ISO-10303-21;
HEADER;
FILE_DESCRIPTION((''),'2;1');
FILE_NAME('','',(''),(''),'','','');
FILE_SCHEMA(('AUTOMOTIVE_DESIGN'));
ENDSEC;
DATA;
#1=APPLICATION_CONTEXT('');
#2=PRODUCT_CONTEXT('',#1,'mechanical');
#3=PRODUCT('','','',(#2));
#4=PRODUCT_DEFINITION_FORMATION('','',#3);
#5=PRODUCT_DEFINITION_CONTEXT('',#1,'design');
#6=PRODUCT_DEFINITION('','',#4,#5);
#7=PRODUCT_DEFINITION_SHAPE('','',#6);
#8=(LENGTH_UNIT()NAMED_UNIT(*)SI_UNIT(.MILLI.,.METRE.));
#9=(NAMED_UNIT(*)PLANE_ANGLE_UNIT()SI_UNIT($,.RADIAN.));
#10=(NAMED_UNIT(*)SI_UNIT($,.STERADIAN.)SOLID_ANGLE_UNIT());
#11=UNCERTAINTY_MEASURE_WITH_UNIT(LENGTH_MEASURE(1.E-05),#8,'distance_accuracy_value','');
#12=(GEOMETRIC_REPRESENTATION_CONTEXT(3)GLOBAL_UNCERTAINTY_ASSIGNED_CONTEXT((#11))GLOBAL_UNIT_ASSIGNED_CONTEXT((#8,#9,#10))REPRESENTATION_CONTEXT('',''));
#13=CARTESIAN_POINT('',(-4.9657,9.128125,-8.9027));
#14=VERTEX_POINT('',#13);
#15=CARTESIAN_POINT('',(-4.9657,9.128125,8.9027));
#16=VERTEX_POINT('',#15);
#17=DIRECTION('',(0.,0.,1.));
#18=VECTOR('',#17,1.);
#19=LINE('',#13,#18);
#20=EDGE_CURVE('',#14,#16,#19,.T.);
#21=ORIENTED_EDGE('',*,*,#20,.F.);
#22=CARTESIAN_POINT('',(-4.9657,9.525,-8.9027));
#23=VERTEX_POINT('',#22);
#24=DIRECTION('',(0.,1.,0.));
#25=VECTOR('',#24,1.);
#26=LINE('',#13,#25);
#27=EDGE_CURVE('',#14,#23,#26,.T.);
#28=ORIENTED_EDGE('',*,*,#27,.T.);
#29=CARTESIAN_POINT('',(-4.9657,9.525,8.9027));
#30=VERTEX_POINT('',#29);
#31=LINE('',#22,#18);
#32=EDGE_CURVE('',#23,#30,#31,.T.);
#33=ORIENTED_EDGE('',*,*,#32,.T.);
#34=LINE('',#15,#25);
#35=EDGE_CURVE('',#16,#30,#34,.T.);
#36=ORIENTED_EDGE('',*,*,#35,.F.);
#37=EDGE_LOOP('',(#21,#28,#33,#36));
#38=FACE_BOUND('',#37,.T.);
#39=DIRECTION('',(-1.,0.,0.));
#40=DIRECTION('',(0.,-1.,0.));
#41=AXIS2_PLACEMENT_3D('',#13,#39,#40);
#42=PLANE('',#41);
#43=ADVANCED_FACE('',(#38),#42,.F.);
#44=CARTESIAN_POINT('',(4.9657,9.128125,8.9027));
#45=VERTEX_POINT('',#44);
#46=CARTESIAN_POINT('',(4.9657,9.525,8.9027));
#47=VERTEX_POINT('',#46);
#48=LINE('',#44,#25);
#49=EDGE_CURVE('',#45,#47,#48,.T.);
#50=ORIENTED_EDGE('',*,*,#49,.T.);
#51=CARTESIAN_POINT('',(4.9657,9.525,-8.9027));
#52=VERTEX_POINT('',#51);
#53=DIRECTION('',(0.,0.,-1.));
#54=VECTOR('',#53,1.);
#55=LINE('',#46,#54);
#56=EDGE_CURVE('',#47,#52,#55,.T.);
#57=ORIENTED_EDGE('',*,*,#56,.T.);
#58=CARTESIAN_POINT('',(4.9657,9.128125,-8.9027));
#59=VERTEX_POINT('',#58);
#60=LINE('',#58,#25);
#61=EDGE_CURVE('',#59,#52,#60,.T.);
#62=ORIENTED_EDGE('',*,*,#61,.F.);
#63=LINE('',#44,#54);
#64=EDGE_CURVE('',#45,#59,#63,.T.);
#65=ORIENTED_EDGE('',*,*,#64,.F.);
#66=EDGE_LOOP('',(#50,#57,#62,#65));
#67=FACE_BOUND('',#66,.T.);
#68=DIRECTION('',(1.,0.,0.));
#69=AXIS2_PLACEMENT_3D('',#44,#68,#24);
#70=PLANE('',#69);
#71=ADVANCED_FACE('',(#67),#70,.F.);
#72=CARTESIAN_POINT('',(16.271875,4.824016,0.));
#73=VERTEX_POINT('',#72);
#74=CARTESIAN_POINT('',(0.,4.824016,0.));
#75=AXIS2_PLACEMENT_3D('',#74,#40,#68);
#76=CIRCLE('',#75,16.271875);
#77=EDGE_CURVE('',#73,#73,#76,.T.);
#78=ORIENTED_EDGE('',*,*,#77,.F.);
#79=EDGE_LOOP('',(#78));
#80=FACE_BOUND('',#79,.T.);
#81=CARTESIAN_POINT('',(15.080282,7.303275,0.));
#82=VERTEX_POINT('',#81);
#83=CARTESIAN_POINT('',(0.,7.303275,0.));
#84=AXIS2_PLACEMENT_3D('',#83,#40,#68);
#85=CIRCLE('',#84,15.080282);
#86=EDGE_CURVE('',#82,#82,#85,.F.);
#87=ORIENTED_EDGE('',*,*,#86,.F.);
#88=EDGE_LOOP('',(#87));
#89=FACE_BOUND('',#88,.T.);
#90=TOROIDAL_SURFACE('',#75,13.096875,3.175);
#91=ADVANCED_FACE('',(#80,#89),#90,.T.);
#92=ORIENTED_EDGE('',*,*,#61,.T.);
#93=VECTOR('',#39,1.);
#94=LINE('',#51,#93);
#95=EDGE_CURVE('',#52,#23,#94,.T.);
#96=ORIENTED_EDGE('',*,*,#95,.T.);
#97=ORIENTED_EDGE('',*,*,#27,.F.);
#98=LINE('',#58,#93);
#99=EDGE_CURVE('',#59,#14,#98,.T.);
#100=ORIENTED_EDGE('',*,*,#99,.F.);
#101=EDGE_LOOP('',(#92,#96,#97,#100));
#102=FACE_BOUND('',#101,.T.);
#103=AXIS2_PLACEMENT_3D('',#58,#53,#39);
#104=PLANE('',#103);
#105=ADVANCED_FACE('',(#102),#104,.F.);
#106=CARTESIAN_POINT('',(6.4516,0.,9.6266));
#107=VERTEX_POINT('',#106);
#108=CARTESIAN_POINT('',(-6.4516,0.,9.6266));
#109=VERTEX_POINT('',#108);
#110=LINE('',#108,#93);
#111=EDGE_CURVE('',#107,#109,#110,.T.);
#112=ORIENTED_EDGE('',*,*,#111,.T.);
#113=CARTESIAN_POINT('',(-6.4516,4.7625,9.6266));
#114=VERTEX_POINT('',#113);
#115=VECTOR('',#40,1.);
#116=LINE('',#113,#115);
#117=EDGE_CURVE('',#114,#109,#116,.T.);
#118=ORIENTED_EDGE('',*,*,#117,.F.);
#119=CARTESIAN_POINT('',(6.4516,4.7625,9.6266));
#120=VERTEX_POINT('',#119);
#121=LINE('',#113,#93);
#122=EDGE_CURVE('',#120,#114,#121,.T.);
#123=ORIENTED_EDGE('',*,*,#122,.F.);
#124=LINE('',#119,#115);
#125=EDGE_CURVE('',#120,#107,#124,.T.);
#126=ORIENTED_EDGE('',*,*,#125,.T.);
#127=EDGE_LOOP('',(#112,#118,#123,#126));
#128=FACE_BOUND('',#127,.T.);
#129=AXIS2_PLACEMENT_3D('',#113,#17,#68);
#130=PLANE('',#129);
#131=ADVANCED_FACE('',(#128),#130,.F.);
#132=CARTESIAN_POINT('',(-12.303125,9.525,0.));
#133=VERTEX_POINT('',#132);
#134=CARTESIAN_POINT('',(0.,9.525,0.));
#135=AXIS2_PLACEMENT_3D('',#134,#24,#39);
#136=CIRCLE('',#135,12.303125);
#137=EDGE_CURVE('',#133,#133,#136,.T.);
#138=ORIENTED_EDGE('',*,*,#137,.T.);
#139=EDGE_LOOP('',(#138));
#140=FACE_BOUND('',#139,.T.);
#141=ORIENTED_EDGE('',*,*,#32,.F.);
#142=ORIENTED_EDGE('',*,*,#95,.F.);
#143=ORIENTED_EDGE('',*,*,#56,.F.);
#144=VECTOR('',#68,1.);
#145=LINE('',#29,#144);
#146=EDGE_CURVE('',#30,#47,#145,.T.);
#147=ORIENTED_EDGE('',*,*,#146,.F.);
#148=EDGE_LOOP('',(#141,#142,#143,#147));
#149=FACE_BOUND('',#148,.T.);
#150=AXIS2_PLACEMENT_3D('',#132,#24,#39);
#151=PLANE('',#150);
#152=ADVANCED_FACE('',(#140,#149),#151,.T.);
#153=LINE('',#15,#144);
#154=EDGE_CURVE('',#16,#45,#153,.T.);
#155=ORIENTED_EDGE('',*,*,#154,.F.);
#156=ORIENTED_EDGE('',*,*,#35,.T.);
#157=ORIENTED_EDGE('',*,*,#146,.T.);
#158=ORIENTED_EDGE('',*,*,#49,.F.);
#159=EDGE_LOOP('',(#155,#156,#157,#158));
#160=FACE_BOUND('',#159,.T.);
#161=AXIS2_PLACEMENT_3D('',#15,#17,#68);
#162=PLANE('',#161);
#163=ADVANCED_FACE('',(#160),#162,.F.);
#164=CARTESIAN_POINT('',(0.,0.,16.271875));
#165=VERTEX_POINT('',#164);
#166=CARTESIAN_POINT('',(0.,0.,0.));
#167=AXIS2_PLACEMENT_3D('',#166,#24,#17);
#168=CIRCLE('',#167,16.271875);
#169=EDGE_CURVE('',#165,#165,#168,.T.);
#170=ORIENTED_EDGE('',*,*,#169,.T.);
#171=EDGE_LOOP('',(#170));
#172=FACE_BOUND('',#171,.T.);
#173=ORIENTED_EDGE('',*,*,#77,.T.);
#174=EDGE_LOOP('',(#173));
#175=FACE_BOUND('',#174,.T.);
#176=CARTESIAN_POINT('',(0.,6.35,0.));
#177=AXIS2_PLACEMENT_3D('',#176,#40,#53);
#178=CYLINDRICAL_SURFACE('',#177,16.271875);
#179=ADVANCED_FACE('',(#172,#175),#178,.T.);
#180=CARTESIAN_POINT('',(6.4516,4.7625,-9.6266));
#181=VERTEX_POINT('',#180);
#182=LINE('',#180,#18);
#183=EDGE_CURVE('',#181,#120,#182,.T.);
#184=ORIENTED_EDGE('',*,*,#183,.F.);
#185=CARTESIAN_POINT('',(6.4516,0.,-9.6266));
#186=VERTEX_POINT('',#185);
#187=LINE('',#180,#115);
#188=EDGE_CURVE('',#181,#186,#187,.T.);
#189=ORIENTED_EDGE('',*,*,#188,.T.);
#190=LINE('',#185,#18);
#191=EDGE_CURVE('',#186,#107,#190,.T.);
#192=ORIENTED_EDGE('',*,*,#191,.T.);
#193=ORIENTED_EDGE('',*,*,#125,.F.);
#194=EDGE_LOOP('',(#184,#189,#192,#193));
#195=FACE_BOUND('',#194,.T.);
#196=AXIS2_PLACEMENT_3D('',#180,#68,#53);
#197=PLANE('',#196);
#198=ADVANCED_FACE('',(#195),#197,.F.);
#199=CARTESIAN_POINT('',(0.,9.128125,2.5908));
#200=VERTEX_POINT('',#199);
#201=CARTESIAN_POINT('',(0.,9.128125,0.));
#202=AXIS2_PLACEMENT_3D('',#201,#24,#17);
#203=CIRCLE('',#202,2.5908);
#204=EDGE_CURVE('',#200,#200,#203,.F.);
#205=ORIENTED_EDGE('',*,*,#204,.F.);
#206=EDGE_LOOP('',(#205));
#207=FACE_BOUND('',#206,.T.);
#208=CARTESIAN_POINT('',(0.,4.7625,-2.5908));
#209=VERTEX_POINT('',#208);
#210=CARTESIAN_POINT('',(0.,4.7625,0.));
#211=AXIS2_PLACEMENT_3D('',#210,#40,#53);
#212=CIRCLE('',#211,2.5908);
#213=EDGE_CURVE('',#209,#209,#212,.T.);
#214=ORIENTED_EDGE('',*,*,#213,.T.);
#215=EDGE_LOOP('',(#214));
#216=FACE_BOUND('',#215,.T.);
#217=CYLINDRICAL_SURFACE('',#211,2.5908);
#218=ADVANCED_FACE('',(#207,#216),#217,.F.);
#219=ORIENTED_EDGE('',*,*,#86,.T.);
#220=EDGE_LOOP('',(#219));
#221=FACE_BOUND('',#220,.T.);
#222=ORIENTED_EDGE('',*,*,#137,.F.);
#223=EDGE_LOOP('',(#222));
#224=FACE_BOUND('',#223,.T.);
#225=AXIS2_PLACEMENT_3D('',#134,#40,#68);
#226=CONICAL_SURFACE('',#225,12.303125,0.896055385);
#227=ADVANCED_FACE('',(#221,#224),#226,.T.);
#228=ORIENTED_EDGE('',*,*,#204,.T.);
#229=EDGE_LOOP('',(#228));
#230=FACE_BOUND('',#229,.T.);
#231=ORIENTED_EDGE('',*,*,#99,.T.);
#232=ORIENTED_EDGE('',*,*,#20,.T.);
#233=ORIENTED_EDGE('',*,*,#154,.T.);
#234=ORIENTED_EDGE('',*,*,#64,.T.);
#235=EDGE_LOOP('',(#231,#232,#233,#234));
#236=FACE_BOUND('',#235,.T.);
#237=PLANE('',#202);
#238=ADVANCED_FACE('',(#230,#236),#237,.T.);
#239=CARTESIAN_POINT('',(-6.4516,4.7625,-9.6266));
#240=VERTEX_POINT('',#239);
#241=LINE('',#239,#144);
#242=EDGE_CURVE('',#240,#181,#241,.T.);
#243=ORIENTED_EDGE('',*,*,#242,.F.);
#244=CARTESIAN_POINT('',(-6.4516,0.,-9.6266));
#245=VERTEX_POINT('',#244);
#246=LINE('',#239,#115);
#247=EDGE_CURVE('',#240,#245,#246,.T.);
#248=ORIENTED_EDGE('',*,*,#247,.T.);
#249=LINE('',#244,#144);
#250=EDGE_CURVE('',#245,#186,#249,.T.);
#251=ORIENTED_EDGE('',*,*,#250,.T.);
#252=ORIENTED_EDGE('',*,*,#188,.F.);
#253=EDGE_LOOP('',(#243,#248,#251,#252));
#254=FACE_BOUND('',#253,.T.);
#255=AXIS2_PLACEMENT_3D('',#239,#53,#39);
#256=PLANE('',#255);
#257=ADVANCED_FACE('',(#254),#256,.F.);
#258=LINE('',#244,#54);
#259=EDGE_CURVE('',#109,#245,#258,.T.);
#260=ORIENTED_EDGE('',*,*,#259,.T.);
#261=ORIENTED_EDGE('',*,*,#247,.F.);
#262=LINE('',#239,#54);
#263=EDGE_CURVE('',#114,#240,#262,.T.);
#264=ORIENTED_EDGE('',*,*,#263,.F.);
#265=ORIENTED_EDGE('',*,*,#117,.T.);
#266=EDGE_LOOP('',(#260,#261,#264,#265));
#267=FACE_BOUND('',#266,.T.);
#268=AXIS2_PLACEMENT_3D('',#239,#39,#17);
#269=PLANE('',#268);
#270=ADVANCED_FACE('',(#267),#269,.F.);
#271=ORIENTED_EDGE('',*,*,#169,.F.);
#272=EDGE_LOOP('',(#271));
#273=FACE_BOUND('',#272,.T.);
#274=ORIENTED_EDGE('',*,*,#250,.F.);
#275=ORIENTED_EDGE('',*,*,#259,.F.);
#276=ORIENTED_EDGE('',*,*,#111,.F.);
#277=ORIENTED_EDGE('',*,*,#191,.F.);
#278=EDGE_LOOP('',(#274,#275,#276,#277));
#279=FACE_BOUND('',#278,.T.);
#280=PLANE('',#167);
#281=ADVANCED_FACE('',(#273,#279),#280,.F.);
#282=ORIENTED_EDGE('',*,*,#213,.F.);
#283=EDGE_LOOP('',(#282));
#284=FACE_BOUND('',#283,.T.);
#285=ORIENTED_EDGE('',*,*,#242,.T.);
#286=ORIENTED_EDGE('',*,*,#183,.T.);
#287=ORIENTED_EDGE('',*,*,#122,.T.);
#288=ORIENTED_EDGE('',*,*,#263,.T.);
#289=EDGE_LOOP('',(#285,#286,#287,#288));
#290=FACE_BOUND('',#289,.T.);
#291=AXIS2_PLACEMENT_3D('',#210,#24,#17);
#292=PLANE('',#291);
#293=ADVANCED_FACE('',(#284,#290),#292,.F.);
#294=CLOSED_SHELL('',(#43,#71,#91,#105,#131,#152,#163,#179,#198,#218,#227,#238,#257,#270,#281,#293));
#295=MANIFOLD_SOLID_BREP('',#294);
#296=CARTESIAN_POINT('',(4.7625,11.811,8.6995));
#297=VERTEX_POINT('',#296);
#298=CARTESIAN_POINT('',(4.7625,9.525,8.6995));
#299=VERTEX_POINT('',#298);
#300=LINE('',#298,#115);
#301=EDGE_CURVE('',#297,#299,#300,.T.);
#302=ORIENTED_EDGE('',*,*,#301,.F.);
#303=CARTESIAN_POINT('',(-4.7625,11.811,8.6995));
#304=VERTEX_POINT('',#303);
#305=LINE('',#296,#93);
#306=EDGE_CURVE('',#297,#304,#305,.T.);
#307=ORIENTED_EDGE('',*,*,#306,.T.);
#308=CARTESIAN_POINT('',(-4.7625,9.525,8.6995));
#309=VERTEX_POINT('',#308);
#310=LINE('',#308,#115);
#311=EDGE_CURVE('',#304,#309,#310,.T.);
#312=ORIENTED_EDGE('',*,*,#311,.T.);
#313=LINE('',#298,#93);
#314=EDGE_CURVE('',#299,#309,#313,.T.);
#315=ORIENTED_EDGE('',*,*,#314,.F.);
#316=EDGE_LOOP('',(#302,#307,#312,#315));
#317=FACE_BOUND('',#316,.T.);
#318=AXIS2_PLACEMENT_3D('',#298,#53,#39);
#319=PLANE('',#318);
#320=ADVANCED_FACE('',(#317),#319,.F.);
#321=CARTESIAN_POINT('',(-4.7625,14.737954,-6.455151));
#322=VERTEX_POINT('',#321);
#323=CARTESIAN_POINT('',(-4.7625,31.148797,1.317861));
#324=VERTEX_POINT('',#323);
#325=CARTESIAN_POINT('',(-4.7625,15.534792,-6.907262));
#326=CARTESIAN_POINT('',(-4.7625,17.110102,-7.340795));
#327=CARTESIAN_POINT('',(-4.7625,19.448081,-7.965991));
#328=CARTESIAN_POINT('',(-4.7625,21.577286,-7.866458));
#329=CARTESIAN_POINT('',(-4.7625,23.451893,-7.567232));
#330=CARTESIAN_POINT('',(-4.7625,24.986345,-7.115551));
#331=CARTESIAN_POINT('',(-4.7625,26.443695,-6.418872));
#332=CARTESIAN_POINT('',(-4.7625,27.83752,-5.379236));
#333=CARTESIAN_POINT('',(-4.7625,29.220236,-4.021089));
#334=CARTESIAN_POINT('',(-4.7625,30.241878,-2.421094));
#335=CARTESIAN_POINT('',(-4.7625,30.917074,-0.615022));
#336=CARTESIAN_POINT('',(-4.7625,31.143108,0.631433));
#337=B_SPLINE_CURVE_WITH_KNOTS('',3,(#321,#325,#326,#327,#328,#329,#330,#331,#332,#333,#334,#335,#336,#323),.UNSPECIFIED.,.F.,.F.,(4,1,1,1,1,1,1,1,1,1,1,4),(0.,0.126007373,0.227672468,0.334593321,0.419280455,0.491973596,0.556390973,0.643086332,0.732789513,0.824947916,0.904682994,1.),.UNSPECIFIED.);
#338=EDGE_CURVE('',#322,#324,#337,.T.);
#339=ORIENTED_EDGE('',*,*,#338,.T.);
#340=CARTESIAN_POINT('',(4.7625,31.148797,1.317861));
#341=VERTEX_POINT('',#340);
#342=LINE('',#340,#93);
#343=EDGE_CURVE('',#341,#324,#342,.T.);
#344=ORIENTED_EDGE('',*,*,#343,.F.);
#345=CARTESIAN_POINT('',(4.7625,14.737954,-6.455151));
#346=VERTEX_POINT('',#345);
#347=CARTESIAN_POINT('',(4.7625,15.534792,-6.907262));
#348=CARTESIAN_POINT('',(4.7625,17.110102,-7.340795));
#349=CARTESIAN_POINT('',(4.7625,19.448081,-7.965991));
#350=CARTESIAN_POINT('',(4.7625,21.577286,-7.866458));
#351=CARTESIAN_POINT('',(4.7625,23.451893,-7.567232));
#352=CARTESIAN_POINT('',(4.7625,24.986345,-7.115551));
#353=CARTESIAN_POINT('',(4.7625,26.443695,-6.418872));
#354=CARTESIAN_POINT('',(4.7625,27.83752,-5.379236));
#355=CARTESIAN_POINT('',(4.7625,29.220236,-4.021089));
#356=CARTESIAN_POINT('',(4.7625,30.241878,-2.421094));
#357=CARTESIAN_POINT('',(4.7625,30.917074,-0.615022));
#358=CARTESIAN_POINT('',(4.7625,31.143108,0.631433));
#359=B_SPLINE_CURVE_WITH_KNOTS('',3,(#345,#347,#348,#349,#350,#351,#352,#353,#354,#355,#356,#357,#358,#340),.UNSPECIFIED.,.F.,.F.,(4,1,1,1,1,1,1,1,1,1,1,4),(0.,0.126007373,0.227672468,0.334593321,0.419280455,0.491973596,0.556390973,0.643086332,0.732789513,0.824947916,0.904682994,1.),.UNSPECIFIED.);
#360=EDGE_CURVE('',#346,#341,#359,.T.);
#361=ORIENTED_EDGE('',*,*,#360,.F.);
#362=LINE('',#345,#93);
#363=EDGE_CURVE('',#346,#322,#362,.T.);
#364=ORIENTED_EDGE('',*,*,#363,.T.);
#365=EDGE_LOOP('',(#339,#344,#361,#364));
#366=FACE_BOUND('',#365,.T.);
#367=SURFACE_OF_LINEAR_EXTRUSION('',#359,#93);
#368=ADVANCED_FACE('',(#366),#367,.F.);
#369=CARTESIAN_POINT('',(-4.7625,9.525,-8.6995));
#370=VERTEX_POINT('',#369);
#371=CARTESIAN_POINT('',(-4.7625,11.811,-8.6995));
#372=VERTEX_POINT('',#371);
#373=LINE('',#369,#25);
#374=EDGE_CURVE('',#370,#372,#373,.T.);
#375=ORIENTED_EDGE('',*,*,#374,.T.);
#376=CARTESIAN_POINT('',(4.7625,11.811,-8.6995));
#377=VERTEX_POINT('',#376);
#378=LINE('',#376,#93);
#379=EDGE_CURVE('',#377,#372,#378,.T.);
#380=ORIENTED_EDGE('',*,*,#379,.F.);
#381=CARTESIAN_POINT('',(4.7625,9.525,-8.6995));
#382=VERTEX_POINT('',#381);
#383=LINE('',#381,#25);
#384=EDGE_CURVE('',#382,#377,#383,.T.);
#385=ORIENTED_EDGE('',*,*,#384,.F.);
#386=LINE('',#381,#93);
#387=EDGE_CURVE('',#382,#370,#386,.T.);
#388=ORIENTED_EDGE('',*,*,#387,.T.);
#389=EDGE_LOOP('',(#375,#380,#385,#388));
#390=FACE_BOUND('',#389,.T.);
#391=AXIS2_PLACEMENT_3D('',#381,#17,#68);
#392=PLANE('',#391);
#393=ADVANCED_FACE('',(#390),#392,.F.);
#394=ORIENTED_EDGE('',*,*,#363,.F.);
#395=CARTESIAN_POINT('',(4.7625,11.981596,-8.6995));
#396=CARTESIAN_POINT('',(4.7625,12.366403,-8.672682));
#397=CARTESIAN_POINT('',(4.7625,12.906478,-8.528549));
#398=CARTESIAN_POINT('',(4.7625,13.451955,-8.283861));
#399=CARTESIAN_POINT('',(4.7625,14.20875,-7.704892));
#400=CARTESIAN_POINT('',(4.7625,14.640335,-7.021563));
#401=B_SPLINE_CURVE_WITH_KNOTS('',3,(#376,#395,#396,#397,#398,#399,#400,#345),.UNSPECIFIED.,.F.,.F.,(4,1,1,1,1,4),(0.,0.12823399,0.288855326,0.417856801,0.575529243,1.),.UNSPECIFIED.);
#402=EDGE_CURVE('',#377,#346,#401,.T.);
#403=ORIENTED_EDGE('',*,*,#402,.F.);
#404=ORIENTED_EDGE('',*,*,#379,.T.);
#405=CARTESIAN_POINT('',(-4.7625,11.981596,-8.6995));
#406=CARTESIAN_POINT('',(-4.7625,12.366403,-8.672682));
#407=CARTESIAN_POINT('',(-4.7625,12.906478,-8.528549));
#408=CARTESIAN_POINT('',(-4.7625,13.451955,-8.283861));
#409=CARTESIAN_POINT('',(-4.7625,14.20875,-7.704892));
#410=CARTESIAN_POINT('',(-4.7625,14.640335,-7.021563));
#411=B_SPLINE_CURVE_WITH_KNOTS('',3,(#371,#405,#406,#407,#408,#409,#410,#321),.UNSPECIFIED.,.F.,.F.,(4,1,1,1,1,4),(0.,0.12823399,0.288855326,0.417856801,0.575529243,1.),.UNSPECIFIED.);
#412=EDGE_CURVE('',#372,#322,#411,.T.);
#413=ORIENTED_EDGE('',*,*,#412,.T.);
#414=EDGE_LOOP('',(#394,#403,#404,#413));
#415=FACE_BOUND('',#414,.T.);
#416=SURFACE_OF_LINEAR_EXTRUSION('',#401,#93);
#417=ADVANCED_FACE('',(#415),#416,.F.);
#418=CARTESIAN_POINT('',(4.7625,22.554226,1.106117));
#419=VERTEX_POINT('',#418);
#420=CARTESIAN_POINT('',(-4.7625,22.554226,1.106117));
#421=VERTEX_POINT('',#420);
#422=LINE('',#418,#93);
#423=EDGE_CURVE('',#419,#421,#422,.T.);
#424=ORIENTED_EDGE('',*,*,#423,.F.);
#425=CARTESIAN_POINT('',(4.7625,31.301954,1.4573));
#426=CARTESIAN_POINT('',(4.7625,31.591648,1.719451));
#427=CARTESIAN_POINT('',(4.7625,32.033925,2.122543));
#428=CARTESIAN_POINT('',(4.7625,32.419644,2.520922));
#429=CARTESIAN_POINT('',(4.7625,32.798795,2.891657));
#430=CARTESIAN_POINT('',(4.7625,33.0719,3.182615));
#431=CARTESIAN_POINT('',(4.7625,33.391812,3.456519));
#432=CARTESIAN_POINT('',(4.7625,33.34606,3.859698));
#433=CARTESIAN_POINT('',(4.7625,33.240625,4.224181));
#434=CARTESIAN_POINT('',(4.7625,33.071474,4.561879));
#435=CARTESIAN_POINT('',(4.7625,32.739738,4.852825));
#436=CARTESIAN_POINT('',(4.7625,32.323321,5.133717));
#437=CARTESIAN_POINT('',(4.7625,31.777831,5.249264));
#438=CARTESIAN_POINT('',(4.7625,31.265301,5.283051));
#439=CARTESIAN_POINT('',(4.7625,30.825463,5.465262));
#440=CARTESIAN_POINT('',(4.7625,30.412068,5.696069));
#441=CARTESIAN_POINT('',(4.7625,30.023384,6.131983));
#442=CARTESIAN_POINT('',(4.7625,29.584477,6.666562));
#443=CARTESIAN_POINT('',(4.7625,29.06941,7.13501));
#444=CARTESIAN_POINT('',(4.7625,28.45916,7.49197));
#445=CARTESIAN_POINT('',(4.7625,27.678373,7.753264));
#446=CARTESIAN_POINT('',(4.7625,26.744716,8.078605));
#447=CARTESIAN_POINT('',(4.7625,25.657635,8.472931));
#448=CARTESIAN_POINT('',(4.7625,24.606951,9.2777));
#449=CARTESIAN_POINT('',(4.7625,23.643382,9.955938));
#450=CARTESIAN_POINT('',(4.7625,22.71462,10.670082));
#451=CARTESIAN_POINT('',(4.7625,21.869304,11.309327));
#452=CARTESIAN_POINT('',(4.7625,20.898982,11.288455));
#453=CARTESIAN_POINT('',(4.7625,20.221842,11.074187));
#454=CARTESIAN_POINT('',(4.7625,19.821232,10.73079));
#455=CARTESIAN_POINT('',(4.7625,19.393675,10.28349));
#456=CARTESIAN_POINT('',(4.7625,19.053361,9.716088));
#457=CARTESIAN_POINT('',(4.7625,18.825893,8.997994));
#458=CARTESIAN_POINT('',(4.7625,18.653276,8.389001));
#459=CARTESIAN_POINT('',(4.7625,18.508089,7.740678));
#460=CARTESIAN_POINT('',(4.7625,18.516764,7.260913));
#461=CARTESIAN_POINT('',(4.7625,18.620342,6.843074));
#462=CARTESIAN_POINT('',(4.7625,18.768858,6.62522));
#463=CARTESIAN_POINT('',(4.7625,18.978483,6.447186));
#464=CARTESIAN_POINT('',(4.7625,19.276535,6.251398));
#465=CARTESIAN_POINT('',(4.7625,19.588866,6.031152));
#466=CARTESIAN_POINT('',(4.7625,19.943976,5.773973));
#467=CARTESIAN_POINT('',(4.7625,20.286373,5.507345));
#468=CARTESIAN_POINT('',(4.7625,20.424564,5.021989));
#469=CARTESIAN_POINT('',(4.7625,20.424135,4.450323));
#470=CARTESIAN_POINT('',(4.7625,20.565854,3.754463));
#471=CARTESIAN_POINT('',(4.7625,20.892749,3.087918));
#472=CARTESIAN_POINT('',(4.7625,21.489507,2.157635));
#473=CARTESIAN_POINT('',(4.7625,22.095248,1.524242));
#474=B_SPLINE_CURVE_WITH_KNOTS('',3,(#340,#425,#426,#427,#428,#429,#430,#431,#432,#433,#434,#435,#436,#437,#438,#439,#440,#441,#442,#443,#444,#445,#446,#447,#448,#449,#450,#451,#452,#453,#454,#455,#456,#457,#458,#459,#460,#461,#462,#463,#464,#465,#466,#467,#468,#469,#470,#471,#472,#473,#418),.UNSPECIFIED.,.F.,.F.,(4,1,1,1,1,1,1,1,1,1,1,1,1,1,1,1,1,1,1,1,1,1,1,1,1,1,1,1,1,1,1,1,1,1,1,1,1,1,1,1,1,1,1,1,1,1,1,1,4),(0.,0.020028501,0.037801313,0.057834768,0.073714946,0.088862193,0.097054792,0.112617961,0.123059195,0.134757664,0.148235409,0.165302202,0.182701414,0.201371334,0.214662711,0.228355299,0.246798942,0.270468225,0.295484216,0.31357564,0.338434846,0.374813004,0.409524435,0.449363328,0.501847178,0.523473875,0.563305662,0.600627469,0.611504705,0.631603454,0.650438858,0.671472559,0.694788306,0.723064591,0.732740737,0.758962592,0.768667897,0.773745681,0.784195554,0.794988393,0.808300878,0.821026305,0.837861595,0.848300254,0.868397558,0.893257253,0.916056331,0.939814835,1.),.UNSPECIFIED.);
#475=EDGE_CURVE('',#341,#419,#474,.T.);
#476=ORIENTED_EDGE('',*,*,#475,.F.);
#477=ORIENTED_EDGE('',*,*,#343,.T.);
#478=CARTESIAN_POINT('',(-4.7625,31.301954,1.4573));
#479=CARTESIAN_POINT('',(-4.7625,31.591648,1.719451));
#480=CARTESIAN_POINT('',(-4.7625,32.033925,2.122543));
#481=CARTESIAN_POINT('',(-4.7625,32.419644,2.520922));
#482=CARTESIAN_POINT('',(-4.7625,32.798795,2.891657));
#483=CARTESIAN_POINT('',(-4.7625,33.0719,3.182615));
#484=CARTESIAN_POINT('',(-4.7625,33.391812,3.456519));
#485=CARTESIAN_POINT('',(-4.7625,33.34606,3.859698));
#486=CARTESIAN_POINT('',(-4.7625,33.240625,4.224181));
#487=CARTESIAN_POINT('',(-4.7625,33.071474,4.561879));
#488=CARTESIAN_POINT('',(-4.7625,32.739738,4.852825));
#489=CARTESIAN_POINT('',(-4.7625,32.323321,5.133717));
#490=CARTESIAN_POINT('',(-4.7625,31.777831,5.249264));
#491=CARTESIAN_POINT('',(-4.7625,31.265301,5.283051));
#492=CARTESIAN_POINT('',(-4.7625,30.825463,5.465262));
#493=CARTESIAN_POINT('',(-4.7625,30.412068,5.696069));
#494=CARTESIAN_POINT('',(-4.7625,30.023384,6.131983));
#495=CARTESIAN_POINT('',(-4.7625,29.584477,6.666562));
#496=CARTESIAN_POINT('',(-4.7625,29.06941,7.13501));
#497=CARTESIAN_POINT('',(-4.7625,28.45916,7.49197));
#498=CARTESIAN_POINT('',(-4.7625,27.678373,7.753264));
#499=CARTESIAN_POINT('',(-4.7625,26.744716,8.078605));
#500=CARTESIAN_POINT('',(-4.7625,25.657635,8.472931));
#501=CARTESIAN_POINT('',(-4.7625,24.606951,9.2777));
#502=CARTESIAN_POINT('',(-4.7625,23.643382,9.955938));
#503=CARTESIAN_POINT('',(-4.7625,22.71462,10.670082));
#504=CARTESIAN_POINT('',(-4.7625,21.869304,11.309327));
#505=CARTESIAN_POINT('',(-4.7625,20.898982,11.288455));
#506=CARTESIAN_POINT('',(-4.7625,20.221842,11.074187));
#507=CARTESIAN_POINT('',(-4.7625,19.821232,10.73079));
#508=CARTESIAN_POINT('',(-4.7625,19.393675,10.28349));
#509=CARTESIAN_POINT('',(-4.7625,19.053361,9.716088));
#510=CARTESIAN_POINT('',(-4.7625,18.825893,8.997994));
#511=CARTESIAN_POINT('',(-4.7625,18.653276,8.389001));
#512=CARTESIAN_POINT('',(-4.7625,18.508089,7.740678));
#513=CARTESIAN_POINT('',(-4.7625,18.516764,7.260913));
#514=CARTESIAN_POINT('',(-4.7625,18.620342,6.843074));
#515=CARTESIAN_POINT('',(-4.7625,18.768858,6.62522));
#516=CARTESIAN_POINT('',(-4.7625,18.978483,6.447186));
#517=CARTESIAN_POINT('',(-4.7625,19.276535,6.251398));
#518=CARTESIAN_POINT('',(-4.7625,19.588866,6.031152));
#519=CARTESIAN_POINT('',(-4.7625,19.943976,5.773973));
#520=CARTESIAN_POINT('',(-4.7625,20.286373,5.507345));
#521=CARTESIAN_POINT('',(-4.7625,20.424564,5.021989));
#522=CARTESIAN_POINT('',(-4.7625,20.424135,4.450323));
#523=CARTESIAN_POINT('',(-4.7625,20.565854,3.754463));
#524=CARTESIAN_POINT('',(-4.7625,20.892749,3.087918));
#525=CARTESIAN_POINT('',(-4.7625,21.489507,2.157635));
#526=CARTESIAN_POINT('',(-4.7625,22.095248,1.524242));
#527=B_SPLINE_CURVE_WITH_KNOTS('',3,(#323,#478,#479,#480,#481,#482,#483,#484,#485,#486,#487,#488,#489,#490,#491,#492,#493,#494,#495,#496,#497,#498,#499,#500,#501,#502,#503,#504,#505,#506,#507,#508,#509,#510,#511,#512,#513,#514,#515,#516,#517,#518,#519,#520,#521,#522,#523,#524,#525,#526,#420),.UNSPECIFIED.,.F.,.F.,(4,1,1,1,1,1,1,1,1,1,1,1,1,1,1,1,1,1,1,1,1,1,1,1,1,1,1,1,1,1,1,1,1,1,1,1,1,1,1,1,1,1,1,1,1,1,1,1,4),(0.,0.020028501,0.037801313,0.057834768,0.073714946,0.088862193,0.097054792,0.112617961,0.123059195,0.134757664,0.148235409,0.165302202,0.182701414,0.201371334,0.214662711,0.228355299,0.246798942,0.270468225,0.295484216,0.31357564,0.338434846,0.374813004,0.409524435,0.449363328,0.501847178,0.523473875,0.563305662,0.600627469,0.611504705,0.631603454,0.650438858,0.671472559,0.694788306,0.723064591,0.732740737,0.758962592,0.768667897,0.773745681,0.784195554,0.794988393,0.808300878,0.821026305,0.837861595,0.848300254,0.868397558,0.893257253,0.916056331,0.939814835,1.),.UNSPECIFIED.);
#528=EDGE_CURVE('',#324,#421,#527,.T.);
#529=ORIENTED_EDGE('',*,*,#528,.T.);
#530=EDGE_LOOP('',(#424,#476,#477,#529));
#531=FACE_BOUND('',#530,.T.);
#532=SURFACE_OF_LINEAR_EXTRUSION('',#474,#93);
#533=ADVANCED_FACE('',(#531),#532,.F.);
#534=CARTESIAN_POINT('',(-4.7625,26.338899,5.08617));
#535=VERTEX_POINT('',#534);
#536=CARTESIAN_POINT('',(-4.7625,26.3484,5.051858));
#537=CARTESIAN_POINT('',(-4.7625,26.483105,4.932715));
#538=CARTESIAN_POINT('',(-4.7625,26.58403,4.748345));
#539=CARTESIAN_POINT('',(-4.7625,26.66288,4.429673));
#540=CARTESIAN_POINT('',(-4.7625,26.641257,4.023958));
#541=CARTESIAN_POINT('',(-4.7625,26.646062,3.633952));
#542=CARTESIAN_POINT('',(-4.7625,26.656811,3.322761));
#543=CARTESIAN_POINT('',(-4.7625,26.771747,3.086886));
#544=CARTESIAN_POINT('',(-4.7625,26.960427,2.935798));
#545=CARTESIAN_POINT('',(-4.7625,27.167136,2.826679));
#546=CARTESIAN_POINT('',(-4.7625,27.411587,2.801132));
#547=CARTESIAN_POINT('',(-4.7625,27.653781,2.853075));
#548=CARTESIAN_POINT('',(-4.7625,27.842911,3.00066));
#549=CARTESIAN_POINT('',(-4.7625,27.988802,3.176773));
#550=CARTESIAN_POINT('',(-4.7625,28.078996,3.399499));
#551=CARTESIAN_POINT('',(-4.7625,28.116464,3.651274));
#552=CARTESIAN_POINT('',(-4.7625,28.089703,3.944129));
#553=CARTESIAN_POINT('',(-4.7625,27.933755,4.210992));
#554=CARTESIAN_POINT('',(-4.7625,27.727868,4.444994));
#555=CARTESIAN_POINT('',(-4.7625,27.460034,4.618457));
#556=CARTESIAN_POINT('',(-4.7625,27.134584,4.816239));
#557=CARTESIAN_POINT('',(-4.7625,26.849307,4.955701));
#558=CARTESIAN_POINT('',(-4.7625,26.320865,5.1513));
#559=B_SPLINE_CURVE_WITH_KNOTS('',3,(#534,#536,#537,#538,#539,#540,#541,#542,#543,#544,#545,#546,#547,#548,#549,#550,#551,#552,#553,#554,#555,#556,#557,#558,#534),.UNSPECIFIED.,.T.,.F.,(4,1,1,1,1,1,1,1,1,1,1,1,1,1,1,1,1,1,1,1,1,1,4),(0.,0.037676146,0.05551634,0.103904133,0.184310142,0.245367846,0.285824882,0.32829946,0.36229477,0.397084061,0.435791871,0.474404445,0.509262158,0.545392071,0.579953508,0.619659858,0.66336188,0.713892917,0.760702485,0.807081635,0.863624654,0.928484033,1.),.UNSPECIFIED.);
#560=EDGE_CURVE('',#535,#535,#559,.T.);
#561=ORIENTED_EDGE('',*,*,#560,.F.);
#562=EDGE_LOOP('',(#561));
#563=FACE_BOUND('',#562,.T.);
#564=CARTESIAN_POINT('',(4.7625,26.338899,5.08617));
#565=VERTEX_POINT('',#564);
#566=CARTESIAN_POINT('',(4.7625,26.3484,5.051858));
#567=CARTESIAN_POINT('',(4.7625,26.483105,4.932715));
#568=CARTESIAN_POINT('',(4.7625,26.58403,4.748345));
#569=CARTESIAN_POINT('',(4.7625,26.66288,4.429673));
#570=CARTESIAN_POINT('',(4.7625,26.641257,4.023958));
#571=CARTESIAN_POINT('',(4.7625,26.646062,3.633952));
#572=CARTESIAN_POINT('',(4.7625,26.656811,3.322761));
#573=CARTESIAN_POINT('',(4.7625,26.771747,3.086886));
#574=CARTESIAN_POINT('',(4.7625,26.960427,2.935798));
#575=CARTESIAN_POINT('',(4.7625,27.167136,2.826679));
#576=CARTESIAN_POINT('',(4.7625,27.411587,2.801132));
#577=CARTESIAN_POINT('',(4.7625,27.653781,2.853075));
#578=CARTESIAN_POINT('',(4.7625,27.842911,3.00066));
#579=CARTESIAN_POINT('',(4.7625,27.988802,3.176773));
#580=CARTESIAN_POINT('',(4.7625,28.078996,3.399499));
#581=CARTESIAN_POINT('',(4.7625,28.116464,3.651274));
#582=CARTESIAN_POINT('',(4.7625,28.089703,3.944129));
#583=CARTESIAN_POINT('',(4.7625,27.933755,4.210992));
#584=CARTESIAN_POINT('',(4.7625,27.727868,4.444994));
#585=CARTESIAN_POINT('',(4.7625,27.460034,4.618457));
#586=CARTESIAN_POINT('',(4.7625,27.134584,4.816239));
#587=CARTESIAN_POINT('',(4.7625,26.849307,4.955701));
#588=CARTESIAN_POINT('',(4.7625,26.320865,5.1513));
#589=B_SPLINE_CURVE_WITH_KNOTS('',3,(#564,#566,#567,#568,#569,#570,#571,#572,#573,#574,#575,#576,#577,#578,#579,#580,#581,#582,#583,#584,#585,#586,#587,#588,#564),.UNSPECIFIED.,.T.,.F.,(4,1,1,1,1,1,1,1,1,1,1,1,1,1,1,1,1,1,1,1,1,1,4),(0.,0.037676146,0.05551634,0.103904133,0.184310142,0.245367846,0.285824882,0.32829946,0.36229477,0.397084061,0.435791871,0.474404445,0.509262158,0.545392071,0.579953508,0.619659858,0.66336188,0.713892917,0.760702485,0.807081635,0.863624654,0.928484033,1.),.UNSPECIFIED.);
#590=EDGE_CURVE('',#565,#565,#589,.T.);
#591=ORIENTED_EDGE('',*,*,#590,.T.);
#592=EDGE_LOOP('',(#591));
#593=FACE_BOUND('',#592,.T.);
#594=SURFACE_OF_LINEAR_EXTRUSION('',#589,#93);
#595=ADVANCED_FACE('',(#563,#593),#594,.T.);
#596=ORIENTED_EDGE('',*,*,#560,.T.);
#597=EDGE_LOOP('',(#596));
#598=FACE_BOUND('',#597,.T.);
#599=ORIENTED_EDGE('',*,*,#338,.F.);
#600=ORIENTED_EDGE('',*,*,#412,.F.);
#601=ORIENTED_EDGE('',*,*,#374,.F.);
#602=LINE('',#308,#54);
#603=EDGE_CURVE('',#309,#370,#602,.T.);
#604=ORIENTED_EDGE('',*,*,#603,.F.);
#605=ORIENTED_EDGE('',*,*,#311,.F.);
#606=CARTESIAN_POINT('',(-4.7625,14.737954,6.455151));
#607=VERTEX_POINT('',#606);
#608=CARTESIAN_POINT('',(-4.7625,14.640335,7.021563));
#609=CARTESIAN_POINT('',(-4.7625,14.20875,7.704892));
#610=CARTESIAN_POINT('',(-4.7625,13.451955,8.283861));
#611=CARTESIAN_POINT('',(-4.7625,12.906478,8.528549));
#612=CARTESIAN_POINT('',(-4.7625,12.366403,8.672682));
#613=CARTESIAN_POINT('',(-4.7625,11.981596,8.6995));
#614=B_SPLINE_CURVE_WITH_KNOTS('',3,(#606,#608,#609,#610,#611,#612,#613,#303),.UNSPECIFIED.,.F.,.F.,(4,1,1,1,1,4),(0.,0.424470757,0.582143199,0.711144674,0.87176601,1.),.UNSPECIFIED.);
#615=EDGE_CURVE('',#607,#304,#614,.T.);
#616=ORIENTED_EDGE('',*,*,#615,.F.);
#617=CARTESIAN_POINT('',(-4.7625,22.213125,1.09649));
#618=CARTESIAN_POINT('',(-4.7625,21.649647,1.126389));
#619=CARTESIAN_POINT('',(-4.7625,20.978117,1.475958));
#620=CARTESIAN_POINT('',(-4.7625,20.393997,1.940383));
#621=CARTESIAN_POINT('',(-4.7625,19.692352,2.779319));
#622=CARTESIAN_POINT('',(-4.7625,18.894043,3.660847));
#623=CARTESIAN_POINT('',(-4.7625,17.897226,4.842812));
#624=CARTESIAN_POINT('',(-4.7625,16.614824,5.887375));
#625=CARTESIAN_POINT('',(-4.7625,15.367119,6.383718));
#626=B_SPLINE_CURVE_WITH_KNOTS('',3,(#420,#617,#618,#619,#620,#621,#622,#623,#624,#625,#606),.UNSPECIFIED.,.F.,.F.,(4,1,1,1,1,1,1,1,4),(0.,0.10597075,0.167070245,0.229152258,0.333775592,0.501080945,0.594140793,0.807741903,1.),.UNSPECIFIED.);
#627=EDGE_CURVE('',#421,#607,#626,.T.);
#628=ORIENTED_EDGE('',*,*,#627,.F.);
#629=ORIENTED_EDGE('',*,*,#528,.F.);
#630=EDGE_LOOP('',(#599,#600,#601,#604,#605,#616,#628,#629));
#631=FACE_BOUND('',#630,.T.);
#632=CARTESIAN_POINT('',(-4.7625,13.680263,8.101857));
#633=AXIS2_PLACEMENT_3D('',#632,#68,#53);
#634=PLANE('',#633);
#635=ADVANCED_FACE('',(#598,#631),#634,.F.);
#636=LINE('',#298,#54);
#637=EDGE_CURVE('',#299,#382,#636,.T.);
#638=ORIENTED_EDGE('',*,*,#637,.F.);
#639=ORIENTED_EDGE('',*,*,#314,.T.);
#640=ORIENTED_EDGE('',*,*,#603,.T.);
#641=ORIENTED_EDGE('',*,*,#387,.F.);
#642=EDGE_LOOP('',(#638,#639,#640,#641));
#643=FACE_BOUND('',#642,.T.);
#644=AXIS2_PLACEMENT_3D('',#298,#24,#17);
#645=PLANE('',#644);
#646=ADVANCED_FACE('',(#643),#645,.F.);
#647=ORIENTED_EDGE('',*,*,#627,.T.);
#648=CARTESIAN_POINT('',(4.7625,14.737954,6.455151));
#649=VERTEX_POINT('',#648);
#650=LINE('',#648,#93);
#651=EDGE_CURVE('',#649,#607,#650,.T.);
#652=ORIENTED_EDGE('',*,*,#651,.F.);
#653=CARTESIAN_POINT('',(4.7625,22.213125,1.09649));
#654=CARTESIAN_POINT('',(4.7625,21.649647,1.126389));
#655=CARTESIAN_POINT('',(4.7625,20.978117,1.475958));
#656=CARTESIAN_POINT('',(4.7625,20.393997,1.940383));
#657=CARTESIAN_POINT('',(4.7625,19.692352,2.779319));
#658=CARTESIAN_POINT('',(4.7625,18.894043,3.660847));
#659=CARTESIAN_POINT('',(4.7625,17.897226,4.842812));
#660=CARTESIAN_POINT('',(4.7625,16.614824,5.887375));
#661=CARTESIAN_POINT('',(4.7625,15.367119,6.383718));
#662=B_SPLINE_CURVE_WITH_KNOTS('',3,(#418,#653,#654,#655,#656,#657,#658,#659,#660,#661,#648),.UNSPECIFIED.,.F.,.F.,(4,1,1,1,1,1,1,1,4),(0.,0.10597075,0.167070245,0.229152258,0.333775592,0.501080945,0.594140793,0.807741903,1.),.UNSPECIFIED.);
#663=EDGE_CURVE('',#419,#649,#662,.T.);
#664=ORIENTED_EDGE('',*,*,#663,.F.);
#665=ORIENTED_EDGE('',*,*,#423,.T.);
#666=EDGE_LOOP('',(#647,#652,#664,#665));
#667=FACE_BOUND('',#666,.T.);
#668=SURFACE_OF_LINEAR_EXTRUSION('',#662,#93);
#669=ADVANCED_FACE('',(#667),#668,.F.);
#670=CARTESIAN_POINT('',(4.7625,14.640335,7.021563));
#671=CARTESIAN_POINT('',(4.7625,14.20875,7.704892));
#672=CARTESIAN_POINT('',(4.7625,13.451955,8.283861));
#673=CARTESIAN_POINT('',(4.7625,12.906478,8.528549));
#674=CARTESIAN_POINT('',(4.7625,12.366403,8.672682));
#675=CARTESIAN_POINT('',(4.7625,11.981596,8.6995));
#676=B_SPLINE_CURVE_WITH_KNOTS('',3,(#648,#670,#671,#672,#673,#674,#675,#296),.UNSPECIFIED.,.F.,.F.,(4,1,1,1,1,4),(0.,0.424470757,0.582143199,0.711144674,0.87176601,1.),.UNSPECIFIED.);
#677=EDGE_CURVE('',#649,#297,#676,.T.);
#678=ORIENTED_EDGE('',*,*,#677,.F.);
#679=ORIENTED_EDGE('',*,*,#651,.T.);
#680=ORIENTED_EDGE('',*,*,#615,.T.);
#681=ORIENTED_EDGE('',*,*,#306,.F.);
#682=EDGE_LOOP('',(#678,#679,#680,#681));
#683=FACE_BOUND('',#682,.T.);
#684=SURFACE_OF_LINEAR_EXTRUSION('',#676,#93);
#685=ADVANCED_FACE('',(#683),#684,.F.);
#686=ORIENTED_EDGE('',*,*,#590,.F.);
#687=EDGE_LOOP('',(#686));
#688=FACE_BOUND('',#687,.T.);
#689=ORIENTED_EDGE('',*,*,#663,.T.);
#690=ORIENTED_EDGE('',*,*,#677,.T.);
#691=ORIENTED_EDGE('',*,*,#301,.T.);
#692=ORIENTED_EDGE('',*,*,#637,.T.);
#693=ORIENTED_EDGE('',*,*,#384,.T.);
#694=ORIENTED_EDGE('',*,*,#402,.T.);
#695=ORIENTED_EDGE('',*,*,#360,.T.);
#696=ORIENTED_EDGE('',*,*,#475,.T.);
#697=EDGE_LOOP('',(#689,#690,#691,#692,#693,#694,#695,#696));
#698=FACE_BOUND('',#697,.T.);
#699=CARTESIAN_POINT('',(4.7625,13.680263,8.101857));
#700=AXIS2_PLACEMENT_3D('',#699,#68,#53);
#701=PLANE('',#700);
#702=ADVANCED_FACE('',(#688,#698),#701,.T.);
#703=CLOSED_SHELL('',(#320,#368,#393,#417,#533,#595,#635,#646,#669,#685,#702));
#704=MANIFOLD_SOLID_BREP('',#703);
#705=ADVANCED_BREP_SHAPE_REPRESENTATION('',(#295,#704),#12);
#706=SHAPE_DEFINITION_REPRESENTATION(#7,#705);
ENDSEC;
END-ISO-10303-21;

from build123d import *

# Parameters (mm, degrees)
SKETCH1_R                  = 16.271875
BOSS_EXTRUDE1_DEPTH        = 6.35
FILLET1_R                  = 3.175
SKETCH3_W                  = 12.9032
SKETCH3_H                  = 19.2532
CUT_EXTRUDE1_DEPTH         = 4.7625
F_6_0_204_DIAMETER_HOLE1_D = 5.1816
BOSS_EXTRUDE2_DEPTH        = 4.7625
SKETCH7_W                  = 9.9314
SKETCH7_H                  = 17.8054
CUT_EXTRUDE2_DEPTH         = 0.396875


with BuildPart() as part:
    # Sketch1 → Boss-Extrude1 (new body)
    with BuildSketch(Plane(origin=(0, 0, 0), x_dir=(1, 0, 0), z_dir=(0, 1, 0))):
        with Locations(Location((0, 0, 0), (0, 0, 270))):
            Circle(SKETCH1_R)
    extrude(amount=BOSS_EXTRUDE1_DEPTH)

    # Sketch2 → Revolve1 (revolve)
    with BuildSketch(Plane.XY, mode=Mode.PRIVATE) as revolve1_sk:
        Polygon((-16.271875, 6.35), (-12.303125, 9.525), (0, 9.525), (0, 6.35), align=None)
    revolve(revolve1_sk.sketch.rotate(Axis((0, 9.525, 0), (0, -1, 0)), 270), axis=Axis((0, 9.525, 0), (0, -1, 0)))

    # Fillet1
    fillet1_edges = [part.edges().sort_by_distance(p)[0] for p in [
        (0, 6.35, -16.271875),
    ]]
    fillet(fillet1_edges, radius=FILLET1_R)

    # Sketch3 → Cut-Extrude1 (cut)
    with BuildSketch(Plane.XZ):
        Rectangle(SKETCH3_W, SKETCH3_H)
    extrude(amount=-CUT_EXTRUDE1_DEPTH, mode=Mode.SUBTRACT)

    # #6 (0.204) Diameter Hole1 (through all)
    with Locations(Plane(origin=(0, 4.7625, 0), x_dir=(-1, 0, 0), z_dir=(0, -1, 0))):
        with Locations((0, 0)):
            Hole(F_6_0_204_DIAMETER_HOLE1_D / 2)

    # Sketch7 → Cut-Extrude2 (cut)
    with BuildSketch(Plane(origin=(0, 9.525, 0), x_dir=(1, 0, 0), z_dir=(0, 1, 0))):
        Rectangle(SKETCH7_W, SKETCH7_H)
    extrude(amount=-CUT_EXTRUDE2_DEPTH, mode=Mode.SUBTRACT)


with BuildPart() as body_2:
    # Sketch6 → Boss-Extrude2 (new, symmetric)
    with BuildSketch(Plane(origin=(0, 0, 0), x_dir=(0, 0, -1), z_dir=(1, 0, 0))):
        with BuildLine():
            Line((-8.6995, 9.525), (8.6995, 9.525))
            Line((8.6995, 9.525), (8.6995, 11.811))
            add(Edge.make_bspline(
                [(8.6995, 11.811), (8.6995, 11.981596192), (8.672682122, 12.366402891), (8.528548662, 12.906477559), (8.283860652, 13.451955457), (7.704891671, 14.208750478), (7.021562794, 14.640334761), (6.455151202, 14.737953783)],
                knots=[0, 0, 0, 0, 0.12823399, 0.288855326, 0.417856801, 0.575529243, 1, 1, 1, 1], degree=3))
            add(Edge.make_bspline(
                [(-1.317860957, 31.148797323), (-0.631432852, 31.143107605), (0.61502231, 30.91707366), (2.421093823, 30.241877627), (4.021089039, 29.22023583), (5.379236033, 27.837520359), (6.418872292, 26.44369457), (7.115551218, 24.986345257), (7.567232468, 23.451893458), (7.866457509, 21.577285539), (7.965991478, 19.44808116), (7.34079514, 17.110101974), (6.907262012, 15.534791602), (6.455151202, 14.737953783)],
                knots=[0, 0, 0, 0, 0.095317006, 0.175052084, 0.267210487, 0.356913668, 0.443609027, 0.508026404, 0.580719545, 0.665406679, 0.772327532, 0.873992627, 1, 1, 1, 1], degree=3))
            add(Edge.make_bspline(
                [(-1.106116625, 22.554226092), (-1.524241912, 22.095248332), (-2.157634698, 21.489506835), (-3.087918125, 20.892748905), (-3.754463046, 20.565854145), (-4.450323035, 20.42413546), (-5.021989126, 20.424564374), (-5.50734482, 20.286373493), (-5.773972637, 19.943976096), (-6.031152029, 19.588865713), (-6.251398045, 19.276534867), (-6.447186499, 18.978482742), (-6.625219926, 18.768858385), (-6.843074318, 18.620342437), (-7.260913116, 18.516764469), (-7.740677885, 18.508089264), (-8.389001273, 18.653276271), (-8.997993874, 18.825893033), (-9.716087702, 19.053361222), (-10.283490406, 19.393674798), (-10.730790444, 19.821232444), (-11.074187267, 20.221841559), (-11.2884547, 20.898981907), (-11.309327349, 21.86930397), (-10.67008222, 22.714620335), (-9.955938364, 23.643382227), (-9.277699626, 24.606951202), (-8.472930693, 25.657634566), (-8.07860489, 26.744716077), (-7.753263632, 27.678373187), (-7.491969725, 28.459160135), (-7.135009865, 29.069410415), (-6.666562395, 29.584477493), (-6.1319826, 30.023383722), (-5.696069191, 30.412067945), (-5.465261607, 30.825463482), (-5.283051108, 31.265301428), (-5.249264149, 31.777830832), (-5.133716881, 32.323321454), (-4.852824669, 32.739737642), (-4.561879232, 33.071474499), (-4.224181159, 33.2406253), (-3.859698322, 33.34605958), (-3.45651905, 33.39181193), (-3.182614602, 33.071899585), (-2.891656769, 32.798795258), (-2.520922412, 32.419644087), (-2.122542584, 32.033925138), (-1.719450649, 31.591648365), (-1.457300498, 31.301953935), (-1.317860957, 31.148797323)],
                knots=[0, 0, 0, 0, 0.060185165, 0.083943669, 0.106742747, 0.131602442, 0.151699746, 0.162138405, 0.178973695, 0.191699122, 0.205011607, 0.215804446, 0.226254319, 0.231332103, 0.241037408, 0.267259263, 0.276935409, 0.305211694, 0.328527441, 0.349561142, 0.368396546, 0.388495295, 0.399372531, 0.436694338, 0.476526125, 0.498152822, 0.550636672, 0.590475565, 0.625186996, 0.661565154, 0.68642436, 0.704515784, 0.729531775, 0.753201058, 0.771644701, 0.785337289, 0.798628666, 0.817298586, 0.834697798, 0.851764591, 0.865242336, 0.876940805, 0.887382039, 0.902945208, 0.911137807, 0.926285054, 0.942165232, 0.962198687, 0.979971499, 1, 1, 1, 1], degree=3))
            add(Edge.make_bspline(
                [(-6.455151202, 14.737953783), (-6.38371772, 15.367119328), (-5.887374624, 16.614824068), (-4.842812152, 17.897225542), (-3.660846653, 18.894042909), (-2.779319152, 19.692352114), (-1.940382894, 20.393996839), (-1.475958465, 20.978116647), (-1.126388931, 21.649646896), (-1.096489648, 22.21312538), (-1.106116625, 22.554226092)],
                knots=[0, 0, 0, 0, 0.192258097, 0.405859207, 0.498919055, 0.666224408, 0.770847742, 0.832929755, 0.89402925, 1, 1, 1, 1], degree=3))
            add(Edge.make_bspline(
                [(-8.6995, 11.811), (-8.6995, 11.981596192), (-8.672682122, 12.366402891), (-8.528548662, 12.906477559), (-8.283860652, 13.451955457), (-7.704891671, 14.208750478), (-7.021562794, 14.640334761), (-6.455151202, 14.737953783)],
                knots=[0, 0, 0, 0, 0.12823399, 0.288855326, 0.417856801, 0.575529243, 1, 1, 1, 1], degree=3))
            Line((-8.6995, 11.811), (-8.6995, 9.525))
        make_face()
        with BuildLine():
            add(Edge.make_bspline(
                [(-5.086170176, 26.338898877), (-5.051858163, 26.348399576), (-4.932714666, 26.483104508), (-4.748345062, 26.58403004), (-4.429672933, 26.66287988), (-4.023957657, 26.641256764), (-3.633952031, 26.646061924), (-3.322760745, 26.65681124), (-3.086886085, 26.771747442), (-2.935797719, 26.960427395), (-2.826679408, 27.167136372), (-2.801132119, 27.411587188), (-2.853074863, 27.653781109), (-3.000660304, 27.842911457), (-3.176773406, 27.988802374), (-3.39949872, 28.078996318), (-3.651273774, 28.116463777), (-3.94412895, 28.089703497), (-4.210992398, 27.933754678), (-4.444994106, 27.727868251), (-4.618457096, 27.460033775), (-4.816238927, 27.134583827), (-4.955700504, 26.849307341), (-5.151300425, 26.320864874), (-5.086170176, 26.338898877)],
                knots=[0, 0, 0, 0, 0.037676146, 0.05551634, 0.103904133, 0.184310142, 0.245367846, 0.285824882, 0.32829946, 0.36229477, 0.397084061, 0.435791871, 0.474404445, 0.509262158, 0.545392071, 0.579953508, 0.619659858, 0.66336188, 0.713892917, 0.760702485, 0.807081635, 0.863624654, 0.928484033, 1, 1, 1, 1], degree=3))
        make_face(mode=Mode.SUBTRACT)
    extrude(amount=BOSS_EXTRUDE2_DEPTH, both=True)


solid = Compound([part.part, body_2.part])
